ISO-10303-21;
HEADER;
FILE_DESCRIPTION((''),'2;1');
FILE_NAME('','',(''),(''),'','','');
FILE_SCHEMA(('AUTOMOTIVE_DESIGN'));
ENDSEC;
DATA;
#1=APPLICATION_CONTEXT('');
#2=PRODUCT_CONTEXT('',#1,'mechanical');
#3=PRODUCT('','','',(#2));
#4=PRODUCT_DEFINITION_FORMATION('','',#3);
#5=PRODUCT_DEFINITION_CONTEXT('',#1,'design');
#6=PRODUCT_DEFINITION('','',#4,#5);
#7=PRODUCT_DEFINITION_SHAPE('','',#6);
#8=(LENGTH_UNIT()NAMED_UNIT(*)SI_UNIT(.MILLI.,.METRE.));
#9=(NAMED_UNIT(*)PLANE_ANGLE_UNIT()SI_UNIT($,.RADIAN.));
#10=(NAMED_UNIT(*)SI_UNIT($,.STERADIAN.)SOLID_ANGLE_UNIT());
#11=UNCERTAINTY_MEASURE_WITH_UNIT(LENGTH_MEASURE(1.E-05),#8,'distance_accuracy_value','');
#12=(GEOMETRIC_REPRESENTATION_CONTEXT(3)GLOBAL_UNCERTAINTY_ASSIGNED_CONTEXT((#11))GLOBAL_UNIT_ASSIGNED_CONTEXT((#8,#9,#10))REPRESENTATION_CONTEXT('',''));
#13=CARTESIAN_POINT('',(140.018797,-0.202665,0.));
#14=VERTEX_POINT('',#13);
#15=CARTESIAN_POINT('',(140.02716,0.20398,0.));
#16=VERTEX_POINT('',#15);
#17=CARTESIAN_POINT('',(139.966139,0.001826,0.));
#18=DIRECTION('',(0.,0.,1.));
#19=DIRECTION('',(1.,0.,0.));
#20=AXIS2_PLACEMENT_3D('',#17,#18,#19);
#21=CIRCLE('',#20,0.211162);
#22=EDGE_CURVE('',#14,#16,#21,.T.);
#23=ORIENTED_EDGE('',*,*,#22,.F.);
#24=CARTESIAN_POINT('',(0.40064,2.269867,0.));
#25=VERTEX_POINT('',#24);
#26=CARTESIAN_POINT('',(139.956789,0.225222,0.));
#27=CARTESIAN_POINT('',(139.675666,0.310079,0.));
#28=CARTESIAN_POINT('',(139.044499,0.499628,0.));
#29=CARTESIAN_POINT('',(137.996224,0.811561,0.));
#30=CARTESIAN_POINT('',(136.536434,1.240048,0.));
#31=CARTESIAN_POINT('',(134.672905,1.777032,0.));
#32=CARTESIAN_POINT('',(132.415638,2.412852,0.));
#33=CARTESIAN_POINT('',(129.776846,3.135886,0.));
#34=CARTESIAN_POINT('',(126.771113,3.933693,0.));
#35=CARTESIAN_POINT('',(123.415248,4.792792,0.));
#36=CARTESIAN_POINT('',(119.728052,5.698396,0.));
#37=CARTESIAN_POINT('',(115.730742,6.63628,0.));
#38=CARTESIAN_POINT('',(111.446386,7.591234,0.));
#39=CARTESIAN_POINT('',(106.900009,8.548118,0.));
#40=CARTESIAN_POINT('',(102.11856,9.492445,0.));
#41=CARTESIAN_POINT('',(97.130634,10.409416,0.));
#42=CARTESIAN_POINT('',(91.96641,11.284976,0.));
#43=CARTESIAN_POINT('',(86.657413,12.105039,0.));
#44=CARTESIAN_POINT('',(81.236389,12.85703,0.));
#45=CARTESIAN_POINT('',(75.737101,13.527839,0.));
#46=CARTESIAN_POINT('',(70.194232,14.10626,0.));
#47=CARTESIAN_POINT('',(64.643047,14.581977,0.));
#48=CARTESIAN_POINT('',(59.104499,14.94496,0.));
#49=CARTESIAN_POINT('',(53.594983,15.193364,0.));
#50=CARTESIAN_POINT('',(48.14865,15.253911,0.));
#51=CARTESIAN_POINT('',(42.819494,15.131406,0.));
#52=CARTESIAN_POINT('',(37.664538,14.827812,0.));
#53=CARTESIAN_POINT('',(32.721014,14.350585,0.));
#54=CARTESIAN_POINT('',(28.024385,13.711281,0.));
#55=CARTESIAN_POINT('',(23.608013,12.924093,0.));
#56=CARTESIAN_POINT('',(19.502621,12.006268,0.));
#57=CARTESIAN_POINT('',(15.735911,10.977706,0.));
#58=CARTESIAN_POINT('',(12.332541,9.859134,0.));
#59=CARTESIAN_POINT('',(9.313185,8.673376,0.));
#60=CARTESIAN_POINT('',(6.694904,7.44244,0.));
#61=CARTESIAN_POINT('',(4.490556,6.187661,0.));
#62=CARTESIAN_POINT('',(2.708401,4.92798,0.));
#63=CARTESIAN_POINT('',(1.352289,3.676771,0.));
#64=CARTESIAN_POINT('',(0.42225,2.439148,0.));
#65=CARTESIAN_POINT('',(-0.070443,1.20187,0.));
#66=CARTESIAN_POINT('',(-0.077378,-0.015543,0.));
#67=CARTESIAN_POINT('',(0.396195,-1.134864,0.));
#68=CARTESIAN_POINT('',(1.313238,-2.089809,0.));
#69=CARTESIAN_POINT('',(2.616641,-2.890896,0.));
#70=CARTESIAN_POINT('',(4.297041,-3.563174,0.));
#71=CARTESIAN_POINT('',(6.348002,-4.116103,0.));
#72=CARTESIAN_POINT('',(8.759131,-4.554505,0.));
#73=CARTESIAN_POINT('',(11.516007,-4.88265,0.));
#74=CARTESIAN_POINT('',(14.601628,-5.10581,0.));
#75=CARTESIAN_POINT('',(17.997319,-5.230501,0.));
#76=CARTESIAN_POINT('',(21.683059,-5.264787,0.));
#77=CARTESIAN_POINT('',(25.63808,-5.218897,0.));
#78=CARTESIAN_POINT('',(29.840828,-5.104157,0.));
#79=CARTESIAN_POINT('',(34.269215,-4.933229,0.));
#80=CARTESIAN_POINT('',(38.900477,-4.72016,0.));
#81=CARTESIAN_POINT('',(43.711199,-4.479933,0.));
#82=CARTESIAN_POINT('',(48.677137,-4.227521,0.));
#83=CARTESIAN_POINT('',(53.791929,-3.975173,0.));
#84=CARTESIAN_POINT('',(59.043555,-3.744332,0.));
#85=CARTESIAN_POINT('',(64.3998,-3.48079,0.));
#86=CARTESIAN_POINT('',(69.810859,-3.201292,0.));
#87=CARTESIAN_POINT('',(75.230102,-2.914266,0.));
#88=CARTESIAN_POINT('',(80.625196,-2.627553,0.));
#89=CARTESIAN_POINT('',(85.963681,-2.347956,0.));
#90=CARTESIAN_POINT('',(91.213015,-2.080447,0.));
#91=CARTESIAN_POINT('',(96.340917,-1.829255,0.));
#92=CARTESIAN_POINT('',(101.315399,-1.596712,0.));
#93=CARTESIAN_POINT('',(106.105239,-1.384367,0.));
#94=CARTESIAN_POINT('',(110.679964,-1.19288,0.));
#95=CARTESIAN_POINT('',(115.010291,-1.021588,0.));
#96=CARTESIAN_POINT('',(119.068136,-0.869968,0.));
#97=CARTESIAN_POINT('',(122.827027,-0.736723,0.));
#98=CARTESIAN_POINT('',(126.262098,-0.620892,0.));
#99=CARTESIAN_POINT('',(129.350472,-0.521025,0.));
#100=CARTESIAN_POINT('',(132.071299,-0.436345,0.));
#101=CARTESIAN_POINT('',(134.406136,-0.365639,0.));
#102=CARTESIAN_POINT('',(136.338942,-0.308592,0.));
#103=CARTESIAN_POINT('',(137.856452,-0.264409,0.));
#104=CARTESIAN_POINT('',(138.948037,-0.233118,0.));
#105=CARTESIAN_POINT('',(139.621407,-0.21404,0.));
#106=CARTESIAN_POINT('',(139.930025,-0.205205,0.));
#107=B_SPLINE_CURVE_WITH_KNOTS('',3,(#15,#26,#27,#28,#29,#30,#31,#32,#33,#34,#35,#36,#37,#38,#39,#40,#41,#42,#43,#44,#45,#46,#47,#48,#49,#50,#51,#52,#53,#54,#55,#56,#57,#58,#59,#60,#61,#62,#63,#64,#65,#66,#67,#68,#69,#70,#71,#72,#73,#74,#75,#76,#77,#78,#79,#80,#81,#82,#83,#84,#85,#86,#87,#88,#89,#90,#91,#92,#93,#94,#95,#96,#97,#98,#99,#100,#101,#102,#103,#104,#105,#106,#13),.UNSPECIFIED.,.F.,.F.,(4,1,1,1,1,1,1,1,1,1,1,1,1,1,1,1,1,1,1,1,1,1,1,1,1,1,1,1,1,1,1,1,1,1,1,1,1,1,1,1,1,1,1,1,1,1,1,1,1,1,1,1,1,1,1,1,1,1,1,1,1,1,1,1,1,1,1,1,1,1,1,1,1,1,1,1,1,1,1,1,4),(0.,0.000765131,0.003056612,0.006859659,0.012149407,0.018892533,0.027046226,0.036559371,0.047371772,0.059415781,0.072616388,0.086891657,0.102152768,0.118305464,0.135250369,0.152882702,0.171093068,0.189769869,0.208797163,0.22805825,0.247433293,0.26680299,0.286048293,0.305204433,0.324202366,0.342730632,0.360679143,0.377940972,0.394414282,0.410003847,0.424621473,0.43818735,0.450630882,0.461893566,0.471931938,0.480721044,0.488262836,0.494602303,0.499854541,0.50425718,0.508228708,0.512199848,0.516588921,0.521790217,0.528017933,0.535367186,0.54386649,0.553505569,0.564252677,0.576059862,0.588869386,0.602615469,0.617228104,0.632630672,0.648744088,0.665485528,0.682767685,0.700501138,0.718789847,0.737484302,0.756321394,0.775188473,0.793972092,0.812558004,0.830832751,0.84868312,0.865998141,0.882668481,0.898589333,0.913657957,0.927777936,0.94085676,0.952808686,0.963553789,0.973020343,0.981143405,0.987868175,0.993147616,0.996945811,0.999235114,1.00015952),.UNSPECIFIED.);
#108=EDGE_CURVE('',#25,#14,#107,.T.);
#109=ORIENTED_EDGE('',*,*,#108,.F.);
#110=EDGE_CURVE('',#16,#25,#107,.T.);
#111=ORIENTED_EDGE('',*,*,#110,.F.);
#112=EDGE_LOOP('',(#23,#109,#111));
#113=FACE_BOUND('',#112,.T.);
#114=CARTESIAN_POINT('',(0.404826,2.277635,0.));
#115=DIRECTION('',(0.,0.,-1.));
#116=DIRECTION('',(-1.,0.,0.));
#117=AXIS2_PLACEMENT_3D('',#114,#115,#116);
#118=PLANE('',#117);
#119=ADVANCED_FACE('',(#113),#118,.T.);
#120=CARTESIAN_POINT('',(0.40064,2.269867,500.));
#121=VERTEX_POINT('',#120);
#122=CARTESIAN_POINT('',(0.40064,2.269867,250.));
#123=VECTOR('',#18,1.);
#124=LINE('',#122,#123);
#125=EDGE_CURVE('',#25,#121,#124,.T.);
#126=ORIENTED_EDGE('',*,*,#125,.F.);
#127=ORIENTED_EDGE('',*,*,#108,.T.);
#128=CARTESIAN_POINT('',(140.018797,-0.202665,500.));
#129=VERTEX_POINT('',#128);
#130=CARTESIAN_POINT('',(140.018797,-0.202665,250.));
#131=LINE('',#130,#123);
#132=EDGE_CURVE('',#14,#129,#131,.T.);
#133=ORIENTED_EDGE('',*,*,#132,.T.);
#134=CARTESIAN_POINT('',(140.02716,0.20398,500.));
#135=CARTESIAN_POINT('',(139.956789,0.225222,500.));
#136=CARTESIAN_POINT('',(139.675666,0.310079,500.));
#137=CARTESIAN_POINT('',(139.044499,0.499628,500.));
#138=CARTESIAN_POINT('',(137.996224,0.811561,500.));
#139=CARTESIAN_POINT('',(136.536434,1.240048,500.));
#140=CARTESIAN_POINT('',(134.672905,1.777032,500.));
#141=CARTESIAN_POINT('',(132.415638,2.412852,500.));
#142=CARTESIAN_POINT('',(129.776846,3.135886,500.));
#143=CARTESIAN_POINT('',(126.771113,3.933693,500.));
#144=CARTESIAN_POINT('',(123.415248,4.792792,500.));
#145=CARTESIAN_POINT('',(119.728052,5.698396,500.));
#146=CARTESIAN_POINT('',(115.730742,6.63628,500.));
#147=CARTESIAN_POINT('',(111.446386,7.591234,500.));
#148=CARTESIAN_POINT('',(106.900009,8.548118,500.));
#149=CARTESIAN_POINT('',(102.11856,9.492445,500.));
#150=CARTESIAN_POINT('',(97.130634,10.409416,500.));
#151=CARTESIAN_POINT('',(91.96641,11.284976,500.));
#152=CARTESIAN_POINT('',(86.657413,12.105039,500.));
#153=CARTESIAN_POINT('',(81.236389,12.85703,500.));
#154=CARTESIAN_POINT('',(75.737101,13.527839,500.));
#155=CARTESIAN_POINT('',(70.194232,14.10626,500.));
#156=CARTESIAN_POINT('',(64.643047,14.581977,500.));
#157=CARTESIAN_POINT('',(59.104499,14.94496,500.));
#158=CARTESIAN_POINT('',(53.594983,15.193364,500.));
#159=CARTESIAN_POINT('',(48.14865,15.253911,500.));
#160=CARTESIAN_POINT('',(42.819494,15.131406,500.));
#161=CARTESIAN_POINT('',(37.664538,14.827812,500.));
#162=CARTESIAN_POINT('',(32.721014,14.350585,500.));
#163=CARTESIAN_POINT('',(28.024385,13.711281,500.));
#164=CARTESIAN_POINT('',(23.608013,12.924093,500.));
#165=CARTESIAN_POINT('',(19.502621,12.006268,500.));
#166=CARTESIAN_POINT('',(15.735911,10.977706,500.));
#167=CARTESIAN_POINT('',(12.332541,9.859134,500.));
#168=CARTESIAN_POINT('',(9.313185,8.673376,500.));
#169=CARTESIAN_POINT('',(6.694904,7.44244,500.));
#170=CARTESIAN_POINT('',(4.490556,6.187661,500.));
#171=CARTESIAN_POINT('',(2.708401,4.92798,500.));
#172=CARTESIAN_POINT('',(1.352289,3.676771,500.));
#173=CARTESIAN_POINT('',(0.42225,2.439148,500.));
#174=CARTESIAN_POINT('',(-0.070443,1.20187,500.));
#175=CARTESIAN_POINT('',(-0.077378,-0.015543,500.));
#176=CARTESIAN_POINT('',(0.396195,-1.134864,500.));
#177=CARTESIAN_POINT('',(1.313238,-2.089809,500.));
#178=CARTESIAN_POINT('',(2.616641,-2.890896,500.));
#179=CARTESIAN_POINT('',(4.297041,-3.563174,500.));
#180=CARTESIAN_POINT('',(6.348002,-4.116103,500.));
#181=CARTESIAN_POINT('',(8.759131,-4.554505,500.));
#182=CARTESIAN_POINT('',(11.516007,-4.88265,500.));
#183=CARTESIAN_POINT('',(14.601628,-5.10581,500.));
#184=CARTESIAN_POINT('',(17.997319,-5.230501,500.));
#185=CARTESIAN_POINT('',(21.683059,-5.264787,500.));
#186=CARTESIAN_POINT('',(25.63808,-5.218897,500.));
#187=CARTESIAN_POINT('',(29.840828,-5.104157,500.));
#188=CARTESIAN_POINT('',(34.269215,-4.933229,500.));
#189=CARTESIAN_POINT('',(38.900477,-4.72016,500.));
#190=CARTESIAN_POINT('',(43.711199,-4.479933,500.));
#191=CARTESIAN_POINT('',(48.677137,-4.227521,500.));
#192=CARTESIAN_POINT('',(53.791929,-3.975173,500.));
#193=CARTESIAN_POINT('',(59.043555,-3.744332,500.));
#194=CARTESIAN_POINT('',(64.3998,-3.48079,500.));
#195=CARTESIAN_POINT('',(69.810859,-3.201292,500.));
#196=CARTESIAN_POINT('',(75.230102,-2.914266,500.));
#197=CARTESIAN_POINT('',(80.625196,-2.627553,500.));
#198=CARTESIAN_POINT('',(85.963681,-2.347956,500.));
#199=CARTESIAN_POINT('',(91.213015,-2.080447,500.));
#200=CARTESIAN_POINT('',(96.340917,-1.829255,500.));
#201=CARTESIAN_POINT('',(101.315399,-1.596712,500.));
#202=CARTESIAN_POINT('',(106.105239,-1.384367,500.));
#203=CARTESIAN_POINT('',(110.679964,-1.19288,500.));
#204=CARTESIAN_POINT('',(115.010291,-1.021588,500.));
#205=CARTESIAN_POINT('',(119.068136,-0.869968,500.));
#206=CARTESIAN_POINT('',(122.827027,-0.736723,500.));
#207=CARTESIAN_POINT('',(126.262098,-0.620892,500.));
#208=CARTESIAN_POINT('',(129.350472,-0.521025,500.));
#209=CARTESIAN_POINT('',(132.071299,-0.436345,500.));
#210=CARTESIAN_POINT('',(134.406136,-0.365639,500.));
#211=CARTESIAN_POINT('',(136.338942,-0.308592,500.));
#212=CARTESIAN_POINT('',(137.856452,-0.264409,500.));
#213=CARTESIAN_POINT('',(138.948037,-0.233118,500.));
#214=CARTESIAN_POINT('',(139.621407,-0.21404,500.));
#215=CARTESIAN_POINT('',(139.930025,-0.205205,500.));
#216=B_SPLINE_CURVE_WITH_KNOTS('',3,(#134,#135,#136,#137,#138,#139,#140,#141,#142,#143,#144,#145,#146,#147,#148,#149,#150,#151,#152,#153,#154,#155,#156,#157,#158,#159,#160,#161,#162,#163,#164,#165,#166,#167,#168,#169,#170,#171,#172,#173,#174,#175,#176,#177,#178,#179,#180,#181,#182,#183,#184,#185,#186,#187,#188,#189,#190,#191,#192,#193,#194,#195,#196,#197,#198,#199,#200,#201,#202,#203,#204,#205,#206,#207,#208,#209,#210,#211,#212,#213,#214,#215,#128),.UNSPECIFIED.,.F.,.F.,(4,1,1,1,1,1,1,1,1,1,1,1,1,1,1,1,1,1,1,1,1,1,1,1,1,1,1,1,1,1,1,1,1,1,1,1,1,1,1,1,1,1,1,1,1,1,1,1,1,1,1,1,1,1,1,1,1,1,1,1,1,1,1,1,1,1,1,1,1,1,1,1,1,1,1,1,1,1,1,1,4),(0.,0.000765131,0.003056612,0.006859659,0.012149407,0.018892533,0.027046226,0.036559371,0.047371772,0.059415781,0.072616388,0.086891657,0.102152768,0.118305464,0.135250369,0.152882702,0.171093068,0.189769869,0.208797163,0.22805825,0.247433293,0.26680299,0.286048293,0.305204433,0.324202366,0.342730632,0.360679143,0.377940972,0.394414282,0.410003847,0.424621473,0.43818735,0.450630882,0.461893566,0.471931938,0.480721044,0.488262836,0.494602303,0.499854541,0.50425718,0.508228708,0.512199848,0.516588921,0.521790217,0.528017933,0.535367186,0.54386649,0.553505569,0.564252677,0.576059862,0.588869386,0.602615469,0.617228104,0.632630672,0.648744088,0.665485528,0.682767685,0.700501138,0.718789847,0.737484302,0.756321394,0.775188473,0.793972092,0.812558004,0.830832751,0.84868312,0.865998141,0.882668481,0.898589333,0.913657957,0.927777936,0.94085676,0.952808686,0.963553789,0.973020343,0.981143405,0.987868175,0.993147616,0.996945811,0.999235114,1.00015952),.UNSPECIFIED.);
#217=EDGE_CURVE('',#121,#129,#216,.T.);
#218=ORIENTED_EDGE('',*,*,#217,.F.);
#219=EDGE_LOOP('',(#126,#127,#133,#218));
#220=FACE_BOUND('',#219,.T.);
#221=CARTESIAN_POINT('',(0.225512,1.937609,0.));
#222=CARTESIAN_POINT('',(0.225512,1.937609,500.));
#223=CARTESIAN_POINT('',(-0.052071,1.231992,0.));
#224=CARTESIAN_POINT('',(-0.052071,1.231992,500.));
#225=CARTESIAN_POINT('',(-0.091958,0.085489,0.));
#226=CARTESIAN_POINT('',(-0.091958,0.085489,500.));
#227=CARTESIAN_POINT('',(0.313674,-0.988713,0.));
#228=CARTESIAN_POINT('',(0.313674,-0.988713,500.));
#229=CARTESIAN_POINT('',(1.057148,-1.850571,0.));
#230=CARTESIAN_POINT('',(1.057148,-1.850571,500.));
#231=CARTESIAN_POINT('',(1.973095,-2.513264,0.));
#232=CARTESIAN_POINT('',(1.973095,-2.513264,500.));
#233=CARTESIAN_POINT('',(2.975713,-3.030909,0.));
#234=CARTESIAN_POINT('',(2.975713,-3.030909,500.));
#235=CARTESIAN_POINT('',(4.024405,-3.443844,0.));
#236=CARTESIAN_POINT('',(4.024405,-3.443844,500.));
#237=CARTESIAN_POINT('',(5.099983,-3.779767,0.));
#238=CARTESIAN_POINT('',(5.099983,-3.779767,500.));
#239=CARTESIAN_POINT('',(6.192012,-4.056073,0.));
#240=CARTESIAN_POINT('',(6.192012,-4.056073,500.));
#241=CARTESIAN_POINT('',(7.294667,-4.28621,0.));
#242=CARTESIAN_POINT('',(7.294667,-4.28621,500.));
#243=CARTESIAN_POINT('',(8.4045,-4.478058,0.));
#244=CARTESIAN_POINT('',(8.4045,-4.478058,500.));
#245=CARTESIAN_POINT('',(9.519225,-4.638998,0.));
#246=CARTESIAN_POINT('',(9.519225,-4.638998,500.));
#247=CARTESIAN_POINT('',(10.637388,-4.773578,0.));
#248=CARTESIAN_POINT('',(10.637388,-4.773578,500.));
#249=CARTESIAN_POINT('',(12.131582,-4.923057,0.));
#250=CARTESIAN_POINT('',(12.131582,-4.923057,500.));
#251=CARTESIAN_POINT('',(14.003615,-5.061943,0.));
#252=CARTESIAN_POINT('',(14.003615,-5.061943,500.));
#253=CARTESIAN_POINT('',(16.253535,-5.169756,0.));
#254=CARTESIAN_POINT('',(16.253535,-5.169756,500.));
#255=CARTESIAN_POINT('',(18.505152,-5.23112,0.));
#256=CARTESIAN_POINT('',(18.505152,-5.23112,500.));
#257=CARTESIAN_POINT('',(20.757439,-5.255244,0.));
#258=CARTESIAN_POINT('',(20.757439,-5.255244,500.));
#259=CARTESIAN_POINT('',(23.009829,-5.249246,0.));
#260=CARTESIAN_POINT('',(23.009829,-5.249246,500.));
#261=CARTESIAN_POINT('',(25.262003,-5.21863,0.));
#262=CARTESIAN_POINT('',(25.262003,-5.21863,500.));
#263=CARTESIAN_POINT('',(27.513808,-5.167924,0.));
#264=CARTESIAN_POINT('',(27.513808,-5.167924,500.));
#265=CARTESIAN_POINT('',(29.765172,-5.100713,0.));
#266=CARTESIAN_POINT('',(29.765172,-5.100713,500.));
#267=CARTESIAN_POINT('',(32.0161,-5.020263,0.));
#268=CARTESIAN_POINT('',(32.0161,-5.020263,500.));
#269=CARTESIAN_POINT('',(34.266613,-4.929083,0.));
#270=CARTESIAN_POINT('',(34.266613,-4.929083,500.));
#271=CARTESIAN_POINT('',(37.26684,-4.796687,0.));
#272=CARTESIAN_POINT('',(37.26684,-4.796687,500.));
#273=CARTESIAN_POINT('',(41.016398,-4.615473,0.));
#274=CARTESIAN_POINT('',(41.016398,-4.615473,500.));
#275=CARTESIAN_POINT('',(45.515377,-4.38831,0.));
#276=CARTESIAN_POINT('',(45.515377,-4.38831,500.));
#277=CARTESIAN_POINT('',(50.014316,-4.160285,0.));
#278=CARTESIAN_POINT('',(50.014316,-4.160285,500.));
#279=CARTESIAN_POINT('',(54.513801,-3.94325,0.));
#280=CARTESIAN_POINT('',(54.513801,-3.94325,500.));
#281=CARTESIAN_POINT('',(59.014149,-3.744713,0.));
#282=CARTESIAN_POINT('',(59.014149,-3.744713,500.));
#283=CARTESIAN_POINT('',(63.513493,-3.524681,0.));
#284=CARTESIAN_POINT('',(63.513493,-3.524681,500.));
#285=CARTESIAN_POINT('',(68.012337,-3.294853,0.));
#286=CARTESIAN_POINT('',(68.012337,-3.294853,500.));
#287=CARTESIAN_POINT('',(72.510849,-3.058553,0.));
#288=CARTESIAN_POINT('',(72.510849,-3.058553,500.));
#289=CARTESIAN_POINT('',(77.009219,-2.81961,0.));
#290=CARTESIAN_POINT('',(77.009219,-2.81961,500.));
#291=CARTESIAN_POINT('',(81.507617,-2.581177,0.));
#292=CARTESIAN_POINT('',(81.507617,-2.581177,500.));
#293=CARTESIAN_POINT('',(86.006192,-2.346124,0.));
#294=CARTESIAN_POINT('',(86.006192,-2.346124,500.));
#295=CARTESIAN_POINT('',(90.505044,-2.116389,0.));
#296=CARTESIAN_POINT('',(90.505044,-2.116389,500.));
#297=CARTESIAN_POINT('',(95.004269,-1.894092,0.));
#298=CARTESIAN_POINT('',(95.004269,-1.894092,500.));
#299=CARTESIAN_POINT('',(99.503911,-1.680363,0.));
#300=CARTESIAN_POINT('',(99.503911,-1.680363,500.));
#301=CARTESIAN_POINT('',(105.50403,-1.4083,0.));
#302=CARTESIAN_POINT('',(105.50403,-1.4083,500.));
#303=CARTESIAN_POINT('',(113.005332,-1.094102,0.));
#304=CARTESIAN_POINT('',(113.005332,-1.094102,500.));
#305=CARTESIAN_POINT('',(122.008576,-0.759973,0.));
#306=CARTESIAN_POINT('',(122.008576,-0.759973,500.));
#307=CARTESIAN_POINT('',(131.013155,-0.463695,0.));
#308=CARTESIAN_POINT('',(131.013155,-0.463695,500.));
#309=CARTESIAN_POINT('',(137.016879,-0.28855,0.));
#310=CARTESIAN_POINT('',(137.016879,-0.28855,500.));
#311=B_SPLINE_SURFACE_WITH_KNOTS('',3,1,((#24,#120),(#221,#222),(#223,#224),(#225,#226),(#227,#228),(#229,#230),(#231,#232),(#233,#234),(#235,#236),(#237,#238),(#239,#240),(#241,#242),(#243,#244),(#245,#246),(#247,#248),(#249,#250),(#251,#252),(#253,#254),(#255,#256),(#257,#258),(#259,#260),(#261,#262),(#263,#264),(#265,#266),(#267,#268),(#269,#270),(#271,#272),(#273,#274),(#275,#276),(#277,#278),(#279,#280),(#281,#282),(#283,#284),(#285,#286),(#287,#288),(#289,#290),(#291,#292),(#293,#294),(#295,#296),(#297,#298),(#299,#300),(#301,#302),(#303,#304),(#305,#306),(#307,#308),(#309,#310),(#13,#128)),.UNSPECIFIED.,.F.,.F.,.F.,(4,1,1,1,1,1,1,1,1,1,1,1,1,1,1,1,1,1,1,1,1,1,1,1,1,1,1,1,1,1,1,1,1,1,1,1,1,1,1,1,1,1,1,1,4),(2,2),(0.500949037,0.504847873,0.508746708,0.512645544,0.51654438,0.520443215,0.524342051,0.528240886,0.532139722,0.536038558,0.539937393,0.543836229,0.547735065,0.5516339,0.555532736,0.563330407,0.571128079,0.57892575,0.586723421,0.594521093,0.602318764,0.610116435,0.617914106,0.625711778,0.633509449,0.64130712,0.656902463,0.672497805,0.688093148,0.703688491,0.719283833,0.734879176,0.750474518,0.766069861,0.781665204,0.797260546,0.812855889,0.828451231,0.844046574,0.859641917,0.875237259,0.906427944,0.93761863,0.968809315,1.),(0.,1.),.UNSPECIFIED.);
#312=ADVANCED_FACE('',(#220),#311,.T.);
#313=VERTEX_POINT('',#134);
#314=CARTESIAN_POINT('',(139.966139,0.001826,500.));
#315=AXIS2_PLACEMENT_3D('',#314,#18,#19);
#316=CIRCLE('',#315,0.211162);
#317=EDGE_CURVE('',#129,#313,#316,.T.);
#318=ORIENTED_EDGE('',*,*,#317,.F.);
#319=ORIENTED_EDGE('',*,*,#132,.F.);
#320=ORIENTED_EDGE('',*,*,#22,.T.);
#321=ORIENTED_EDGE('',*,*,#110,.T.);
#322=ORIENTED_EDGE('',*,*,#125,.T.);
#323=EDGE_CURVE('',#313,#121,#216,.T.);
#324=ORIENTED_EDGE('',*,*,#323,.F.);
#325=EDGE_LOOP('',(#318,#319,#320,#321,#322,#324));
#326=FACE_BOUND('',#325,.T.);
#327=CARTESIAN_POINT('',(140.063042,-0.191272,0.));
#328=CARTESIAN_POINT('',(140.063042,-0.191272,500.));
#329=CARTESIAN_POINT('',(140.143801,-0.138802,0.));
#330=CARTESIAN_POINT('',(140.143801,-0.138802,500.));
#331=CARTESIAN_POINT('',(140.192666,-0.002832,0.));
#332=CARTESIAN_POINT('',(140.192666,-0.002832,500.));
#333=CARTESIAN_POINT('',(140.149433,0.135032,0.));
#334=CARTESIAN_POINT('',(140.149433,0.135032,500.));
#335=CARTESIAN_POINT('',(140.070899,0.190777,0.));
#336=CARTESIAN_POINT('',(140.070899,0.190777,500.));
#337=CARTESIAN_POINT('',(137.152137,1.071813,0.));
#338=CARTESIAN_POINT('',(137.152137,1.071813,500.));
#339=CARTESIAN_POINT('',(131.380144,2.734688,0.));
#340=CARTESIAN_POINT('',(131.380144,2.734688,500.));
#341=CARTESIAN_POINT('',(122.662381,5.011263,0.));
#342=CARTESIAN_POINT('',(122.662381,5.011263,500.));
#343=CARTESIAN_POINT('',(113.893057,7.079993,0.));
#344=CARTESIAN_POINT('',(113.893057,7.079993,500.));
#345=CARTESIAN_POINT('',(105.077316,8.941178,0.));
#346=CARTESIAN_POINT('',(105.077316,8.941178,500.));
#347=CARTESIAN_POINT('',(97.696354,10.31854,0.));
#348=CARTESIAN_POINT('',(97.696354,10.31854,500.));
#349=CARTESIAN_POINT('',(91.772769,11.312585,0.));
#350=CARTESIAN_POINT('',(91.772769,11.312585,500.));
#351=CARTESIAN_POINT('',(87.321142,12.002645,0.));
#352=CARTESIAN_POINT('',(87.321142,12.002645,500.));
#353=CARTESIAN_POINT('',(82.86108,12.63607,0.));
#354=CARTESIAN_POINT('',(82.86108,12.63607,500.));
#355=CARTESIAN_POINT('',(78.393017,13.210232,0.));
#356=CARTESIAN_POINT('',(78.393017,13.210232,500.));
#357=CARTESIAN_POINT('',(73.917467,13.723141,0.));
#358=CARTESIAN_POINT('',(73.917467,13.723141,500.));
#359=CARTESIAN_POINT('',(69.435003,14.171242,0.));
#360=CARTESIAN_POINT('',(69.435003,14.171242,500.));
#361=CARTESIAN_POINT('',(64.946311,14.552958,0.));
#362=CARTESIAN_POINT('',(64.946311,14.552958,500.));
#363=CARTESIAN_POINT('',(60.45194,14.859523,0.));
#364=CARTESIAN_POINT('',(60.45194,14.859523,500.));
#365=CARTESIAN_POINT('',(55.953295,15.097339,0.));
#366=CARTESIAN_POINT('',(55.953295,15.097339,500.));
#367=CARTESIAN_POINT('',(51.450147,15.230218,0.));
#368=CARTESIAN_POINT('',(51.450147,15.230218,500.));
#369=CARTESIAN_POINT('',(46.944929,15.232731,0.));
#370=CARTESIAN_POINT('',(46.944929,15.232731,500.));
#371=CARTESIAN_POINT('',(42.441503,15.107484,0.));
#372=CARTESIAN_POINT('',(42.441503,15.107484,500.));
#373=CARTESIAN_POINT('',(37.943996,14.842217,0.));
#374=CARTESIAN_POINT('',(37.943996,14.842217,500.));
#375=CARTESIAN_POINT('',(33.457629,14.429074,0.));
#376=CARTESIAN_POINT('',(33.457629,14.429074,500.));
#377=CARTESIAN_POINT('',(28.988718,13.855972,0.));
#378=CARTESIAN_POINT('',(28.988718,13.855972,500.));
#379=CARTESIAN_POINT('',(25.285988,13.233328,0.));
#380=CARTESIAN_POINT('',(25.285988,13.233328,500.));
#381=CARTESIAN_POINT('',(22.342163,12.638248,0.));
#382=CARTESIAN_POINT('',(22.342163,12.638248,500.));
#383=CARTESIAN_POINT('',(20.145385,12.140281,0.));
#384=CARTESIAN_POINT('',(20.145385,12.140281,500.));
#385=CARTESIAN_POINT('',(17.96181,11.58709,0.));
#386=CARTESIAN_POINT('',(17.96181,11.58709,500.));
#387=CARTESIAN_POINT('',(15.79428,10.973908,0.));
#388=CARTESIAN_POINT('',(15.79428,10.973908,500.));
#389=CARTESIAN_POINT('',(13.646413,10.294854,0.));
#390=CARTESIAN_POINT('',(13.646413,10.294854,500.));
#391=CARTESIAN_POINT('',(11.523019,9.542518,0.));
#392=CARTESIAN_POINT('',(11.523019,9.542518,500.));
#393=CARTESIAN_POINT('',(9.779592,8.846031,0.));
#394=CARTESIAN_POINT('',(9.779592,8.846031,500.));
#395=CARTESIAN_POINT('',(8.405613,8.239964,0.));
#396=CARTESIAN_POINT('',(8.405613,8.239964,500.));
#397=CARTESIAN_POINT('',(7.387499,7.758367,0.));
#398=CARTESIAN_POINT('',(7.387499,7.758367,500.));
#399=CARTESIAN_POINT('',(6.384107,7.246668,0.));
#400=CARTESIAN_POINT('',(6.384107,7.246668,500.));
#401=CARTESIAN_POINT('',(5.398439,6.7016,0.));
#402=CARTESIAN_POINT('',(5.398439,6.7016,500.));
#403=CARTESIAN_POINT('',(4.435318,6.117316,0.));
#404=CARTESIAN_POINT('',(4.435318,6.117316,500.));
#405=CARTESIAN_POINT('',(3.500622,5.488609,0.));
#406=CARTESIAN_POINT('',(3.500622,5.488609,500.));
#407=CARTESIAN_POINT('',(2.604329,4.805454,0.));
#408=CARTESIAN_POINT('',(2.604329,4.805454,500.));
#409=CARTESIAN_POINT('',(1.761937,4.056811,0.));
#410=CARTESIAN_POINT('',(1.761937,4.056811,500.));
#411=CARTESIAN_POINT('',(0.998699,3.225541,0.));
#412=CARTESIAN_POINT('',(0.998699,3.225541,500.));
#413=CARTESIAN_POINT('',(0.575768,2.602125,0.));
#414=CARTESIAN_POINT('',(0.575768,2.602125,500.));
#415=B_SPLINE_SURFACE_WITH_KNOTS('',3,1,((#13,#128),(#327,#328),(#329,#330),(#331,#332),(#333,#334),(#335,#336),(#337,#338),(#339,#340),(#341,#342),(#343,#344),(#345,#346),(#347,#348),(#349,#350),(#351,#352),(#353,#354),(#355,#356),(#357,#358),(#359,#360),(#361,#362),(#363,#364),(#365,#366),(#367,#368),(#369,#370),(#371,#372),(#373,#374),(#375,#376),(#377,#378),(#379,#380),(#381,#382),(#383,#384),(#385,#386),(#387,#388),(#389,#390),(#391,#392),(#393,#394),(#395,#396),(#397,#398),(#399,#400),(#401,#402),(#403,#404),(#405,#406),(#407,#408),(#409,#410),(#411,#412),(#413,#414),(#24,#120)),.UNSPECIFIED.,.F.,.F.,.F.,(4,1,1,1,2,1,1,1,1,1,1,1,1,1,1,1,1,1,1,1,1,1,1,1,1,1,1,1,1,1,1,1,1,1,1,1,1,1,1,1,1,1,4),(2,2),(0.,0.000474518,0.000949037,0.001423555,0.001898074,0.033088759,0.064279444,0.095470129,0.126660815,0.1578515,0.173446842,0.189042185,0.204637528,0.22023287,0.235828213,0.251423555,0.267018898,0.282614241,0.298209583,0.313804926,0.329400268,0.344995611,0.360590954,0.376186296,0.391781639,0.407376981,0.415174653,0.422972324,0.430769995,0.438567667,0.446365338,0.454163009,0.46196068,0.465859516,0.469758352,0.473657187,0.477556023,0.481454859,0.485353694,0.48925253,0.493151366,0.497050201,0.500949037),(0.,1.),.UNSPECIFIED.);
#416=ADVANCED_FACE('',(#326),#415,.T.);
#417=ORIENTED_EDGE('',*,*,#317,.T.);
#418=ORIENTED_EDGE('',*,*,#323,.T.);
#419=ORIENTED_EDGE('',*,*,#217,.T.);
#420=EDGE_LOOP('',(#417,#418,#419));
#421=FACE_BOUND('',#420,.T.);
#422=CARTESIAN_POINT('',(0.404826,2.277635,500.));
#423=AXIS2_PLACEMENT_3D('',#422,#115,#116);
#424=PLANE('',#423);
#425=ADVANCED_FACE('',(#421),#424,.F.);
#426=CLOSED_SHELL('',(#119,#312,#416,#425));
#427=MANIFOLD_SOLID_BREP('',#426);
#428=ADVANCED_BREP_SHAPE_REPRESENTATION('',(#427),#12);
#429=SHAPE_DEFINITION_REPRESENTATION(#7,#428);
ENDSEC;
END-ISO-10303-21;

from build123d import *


with BuildPart() as part:
    # Sketch3 for Loft1 → Loft1 section 0
    with BuildSketch(Plane(origin=(0, 0, 0), x_dir=(0, 1, 0), z_dir=(0, 0, 1))):
        with BuildLine():
            # circular arc as an exact rational Bezier (weights 1, cos(half-angle), 1)
            Bezier((-0.202665083, -140.018796807), (-0.014300814, -140.750297279), (0.20398, -140.02716), weights=[1, 0.2692287, 1])
            add(Edge.make_bspline(
                [(0.20398, -140.02716), (0.225221614, -139.956789164), (0.310079495, -139.675665524), (0.499628043, -139.044498575), (0.811560708, -137.996224382), (1.240047695, -136.53643382), (1.777032141, -134.67290515), (2.412851873, -132.415637549), (3.1358864, -129.776846288), (3.933692953, -126.771112786), (4.792791861, -123.415248343), (5.698395621, -119.728052254), (6.636280332, -115.730741779), (7.591233715, -111.446385502), (8.548117776, -106.900008862), (9.492445349, -102.118559606), (10.409415786, -97.130634216), (11.284975564, -91.966410268), (12.105038568, -86.657412609), (12.857029979, -81.236388981), (13.527838574, -75.73710094), (14.106259972, -70.194232409), (14.581977397, -64.643046546), (14.944960369, -59.104498815), (15.193364145, -53.594982846), (15.253910921, -48.148650065), (15.131406496, -42.819494074), (14.82781174, -37.664538434), (14.35058458, -32.721013928), (13.711281299, -28.024385411), (12.924093156, -23.608012874), (12.006267835, -19.502621134), (10.977706191, -15.735911142), (9.859134477, -12.332541182), (8.673376074, -9.313184807), (7.442440069, -6.694904037), (6.187661477, -4.490555844), (4.9279798, -2.708401145), (3.676770633, -1.352289183), (2.439148295, -0.422250394), (1.201870147, 0.070443308), (-0.015542508, 0.077377809), (-1.134864491, -0.396195144), (-2.08980899, -1.313237948), (-2.890896356, -2.616641426), (-3.563173678, -4.297041235), (-4.116102548, -6.348001889), (-4.554504697, -8.759130798), (-4.882650098, -11.516006568), (-5.105809882, -14.601627618), (-5.230501095, -17.997318783), (-5.264786738, -21.683059084), (-5.218897023, -25.638080431), (-5.10415693, -29.840828227), (-4.933229134, -34.269214628), (-4.720159513, -38.900477027), (-4.479933199, -43.711199328), (-4.227521482, -48.677136592), (-3.97517313, -53.791929219), (-3.744332013, -59.043554579), (-3.480790248, -64.399799773), (-3.201291869, -69.810858587), (-2.91426609, -75.230102081), (-2.627552885, -80.625195825), (-2.347956216, -85.963681275), (-2.080447458, -91.213014836), (-1.829254509, -96.340917093), (-1.596711875, -101.315399412), (-1.384367436, -106.105239356), (-1.192880294, -110.67996384), (-1.021587896, -115.010291079), (-0.869967551, -119.068135992), (-0.736722937, -122.82702669), (-0.620892103, -126.262097545), (-0.521024926, -129.350471616), (-0.436344518, -132.071299287), (-0.365638747, -134.406136443), (-0.308592109, -136.338941963), (-0.264409061, -137.856451786), (-0.233117796, -138.948036515), (-0.214039877, -139.621406881), (-0.205204855, -139.93002458), (-0.202665083, -140.018796807)],
                knots=[0, 0, 0, 0, 0.000765131, 0.003056612, 0.006859659, 0.012149407, 0.018892533, 0.027046226, 0.036559371, 0.047371772, 0.059415781, 0.072616388, 0.086891657, 0.102152768, 0.118305464, 0.135250369, 0.152882702, 0.171093068, 0.189769869, 0.208797163, 0.22805825, 0.247433293, 0.26680299, 0.286048293, 0.305204433, 0.324202366, 0.342730632, 0.360679143, 0.377940972, 0.394414282, 0.410003847, 0.424621473, 0.43818735, 0.450630882, 0.461893566, 0.471931938, 0.480721044, 0.488262836, 0.494602303, 0.499854541, 0.50425718, 0.508228708, 0.512199848, 0.516588921, 0.521790217, 0.528017933, 0.535367186, 0.54386649, 0.553505569, 0.564252677, 0.576059862, 0.588869386, 0.602615469, 0.617228104, 0.632630672, 0.648744088, 0.665485528, 0.682767685, 0.700501138, 0.718789847, 0.737484302, 0.756321394, 0.775188473, 0.793972092, 0.812558004, 0.830832751, 0.84868312, 0.865998141, 0.882668481, 0.898589333, 0.913657957, 0.927777936, 0.94085676, 0.952808686, 0.963553789, 0.973020343, 0.981143405, 0.987868175, 0.993147616, 0.996945811, 0.999235114, 1.00015952, 1.00015952, 1.00015952, 1.00015952], degree=3))
        make_face()
    # Sketch4 for Loft1 → Loft1 section 1
    with BuildSketch(Plane(origin=(0, 0, 500), x_dir=(0, 1, 0), z_dir=(0, 0, 1))):
        with BuildLine():
            Bezier((-0.202665083, -140.018796807), (-0.014300814, -140.750297279), (0.20398, -140.02716), weights=[1, 0.2692287, 1])
            add(Edge.make_bspline(
                [(0.20398, -140.02716), (0.225221614, -139.956789164), (0.310079495, -139.675665524), (0.499628043, -139.044498575), (0.811560708, -137.996224382), (1.240047695, -136.53643382), (1.777032141, -134.67290515), (2.412851873, -132.415637549), (3.1358864, -129.776846288), (3.933692953, -126.771112786), (4.792791861, -123.415248343), (5.698395621, -119.728052254), (6.636280332, -115.730741779), (7.591233715, -111.446385502), (8.548117776, -106.900008862), (9.492445349, -102.118559606), (10.409415786, -97.130634216), (11.284975564, -91.966410268), (12.105038568, -86.657412609), (12.857029979, -81.236388981), (13.527838574, -75.73710094), (14.106259972, -70.194232409), (14.581977397, -64.643046546), (14.944960369, -59.104498815), (15.193364145, -53.594982846), (15.253910921, -48.148650065), (15.131406496, -42.819494074), (14.82781174, -37.664538434), (14.35058458, -32.721013928), (13.711281299, -28.024385411), (12.924093156, -23.608012874), (12.006267835, -19.502621134), (10.977706191, -15.735911142), (9.859134477, -12.332541182), (8.673376074, -9.313184807), (7.442440069, -6.694904037), (6.187661477, -4.490555844), (4.9279798, -2.708401145), (3.676770633, -1.352289183), (2.439148295, -0.422250394), (1.201870147, 0.070443308), (-0.015542508, 0.077377809), (-1.134864491, -0.396195144), (-2.08980899, -1.313237948), (-2.890896356, -2.616641426), (-3.563173678, -4.297041235), (-4.116102548, -6.348001889), (-4.554504697, -8.759130798), (-4.882650098, -11.516006568), (-5.105809882, -14.601627618), (-5.230501095, -17.997318783), (-5.264786738, -21.683059084), (-5.218897023, -25.638080431), (-5.10415693, -29.840828227), (-4.933229134, -34.269214628), (-4.720159513, -38.900477027), (-4.479933199, -43.711199328), (-4.227521482, -48.677136592), (-3.97517313, -53.791929219), (-3.744332013, -59.043554579), (-3.480790248, -64.399799773), (-3.201291869, -69.810858587), (-2.91426609, -75.230102081), (-2.627552885, -80.625195825), (-2.347956216, -85.963681275), (-2.080447458, -91.213014836), (-1.829254509, -96.340917093), (-1.596711875, -101.315399412), (-1.384367436, -106.105239356), (-1.192880294, -110.67996384), (-1.021587896, -115.010291079), (-0.869967551, -119.068135992), (-0.736722937, -122.82702669), (-0.620892103, -126.262097545), (-0.521024926, -129.350471616), (-0.436344518, -132.071299287), (-0.365638747, -134.406136443), (-0.308592109, -136.338941963), (-0.264409061, -137.856451786), (-0.233117796, -138.948036515), (-0.214039877, -139.621406881), (-0.205204855, -139.93002458), (-0.202665083, -140.018796807)],
                knots=[0, 0, 0, 0, 0.000765131, 0.003056612, 0.006859659, 0.012149407, 0.018892533, 0.027046226, 0.036559371, 0.047371772, 0.059415781, 0.072616388, 0.086891657, 0.102152768, 0.118305464, 0.135250369, 0.152882702, 0.171093068, 0.189769869, 0.208797163, 0.22805825, 0.247433293, 0.26680299, 0.286048293, 0.305204433, 0.324202366, 0.342730632, 0.360679143, 0.377940972, 0.394414282, 0.410003847, 0.424621473, 0.43818735, 0.450630882, 0.461893566, 0.471931938, 0.480721044, 0.488262836, 0.494602303, 0.499854541, 0.50425718, 0.508228708, 0.512199848, 0.516588921, 0.521790217, 0.528017933, 0.535367186, 0.54386649, 0.553505569, 0.564252677, 0.576059862, 0.588869386, 0.602615469, 0.617228104, 0.632630672, 0.648744088, 0.665485528, 0.682767685, 0.700501138, 0.718789847, 0.737484302, 0.756321394, 0.775188473, 0.793972092, 0.812558004, 0.830832751, 0.84868312, 0.865998141, 0.882668481, 0.898589333, 0.913657957, 0.927777936, 0.94085676, 0.952808686, 0.963553789, 0.973020343, 0.981143405, 0.987868175, 0.993147616, 0.996945811, 0.999235114, 1.00015952, 1.00015952, 1.00015952, 1.00015952], degree=3))
        make_face()
    loft()


solid = part.part
